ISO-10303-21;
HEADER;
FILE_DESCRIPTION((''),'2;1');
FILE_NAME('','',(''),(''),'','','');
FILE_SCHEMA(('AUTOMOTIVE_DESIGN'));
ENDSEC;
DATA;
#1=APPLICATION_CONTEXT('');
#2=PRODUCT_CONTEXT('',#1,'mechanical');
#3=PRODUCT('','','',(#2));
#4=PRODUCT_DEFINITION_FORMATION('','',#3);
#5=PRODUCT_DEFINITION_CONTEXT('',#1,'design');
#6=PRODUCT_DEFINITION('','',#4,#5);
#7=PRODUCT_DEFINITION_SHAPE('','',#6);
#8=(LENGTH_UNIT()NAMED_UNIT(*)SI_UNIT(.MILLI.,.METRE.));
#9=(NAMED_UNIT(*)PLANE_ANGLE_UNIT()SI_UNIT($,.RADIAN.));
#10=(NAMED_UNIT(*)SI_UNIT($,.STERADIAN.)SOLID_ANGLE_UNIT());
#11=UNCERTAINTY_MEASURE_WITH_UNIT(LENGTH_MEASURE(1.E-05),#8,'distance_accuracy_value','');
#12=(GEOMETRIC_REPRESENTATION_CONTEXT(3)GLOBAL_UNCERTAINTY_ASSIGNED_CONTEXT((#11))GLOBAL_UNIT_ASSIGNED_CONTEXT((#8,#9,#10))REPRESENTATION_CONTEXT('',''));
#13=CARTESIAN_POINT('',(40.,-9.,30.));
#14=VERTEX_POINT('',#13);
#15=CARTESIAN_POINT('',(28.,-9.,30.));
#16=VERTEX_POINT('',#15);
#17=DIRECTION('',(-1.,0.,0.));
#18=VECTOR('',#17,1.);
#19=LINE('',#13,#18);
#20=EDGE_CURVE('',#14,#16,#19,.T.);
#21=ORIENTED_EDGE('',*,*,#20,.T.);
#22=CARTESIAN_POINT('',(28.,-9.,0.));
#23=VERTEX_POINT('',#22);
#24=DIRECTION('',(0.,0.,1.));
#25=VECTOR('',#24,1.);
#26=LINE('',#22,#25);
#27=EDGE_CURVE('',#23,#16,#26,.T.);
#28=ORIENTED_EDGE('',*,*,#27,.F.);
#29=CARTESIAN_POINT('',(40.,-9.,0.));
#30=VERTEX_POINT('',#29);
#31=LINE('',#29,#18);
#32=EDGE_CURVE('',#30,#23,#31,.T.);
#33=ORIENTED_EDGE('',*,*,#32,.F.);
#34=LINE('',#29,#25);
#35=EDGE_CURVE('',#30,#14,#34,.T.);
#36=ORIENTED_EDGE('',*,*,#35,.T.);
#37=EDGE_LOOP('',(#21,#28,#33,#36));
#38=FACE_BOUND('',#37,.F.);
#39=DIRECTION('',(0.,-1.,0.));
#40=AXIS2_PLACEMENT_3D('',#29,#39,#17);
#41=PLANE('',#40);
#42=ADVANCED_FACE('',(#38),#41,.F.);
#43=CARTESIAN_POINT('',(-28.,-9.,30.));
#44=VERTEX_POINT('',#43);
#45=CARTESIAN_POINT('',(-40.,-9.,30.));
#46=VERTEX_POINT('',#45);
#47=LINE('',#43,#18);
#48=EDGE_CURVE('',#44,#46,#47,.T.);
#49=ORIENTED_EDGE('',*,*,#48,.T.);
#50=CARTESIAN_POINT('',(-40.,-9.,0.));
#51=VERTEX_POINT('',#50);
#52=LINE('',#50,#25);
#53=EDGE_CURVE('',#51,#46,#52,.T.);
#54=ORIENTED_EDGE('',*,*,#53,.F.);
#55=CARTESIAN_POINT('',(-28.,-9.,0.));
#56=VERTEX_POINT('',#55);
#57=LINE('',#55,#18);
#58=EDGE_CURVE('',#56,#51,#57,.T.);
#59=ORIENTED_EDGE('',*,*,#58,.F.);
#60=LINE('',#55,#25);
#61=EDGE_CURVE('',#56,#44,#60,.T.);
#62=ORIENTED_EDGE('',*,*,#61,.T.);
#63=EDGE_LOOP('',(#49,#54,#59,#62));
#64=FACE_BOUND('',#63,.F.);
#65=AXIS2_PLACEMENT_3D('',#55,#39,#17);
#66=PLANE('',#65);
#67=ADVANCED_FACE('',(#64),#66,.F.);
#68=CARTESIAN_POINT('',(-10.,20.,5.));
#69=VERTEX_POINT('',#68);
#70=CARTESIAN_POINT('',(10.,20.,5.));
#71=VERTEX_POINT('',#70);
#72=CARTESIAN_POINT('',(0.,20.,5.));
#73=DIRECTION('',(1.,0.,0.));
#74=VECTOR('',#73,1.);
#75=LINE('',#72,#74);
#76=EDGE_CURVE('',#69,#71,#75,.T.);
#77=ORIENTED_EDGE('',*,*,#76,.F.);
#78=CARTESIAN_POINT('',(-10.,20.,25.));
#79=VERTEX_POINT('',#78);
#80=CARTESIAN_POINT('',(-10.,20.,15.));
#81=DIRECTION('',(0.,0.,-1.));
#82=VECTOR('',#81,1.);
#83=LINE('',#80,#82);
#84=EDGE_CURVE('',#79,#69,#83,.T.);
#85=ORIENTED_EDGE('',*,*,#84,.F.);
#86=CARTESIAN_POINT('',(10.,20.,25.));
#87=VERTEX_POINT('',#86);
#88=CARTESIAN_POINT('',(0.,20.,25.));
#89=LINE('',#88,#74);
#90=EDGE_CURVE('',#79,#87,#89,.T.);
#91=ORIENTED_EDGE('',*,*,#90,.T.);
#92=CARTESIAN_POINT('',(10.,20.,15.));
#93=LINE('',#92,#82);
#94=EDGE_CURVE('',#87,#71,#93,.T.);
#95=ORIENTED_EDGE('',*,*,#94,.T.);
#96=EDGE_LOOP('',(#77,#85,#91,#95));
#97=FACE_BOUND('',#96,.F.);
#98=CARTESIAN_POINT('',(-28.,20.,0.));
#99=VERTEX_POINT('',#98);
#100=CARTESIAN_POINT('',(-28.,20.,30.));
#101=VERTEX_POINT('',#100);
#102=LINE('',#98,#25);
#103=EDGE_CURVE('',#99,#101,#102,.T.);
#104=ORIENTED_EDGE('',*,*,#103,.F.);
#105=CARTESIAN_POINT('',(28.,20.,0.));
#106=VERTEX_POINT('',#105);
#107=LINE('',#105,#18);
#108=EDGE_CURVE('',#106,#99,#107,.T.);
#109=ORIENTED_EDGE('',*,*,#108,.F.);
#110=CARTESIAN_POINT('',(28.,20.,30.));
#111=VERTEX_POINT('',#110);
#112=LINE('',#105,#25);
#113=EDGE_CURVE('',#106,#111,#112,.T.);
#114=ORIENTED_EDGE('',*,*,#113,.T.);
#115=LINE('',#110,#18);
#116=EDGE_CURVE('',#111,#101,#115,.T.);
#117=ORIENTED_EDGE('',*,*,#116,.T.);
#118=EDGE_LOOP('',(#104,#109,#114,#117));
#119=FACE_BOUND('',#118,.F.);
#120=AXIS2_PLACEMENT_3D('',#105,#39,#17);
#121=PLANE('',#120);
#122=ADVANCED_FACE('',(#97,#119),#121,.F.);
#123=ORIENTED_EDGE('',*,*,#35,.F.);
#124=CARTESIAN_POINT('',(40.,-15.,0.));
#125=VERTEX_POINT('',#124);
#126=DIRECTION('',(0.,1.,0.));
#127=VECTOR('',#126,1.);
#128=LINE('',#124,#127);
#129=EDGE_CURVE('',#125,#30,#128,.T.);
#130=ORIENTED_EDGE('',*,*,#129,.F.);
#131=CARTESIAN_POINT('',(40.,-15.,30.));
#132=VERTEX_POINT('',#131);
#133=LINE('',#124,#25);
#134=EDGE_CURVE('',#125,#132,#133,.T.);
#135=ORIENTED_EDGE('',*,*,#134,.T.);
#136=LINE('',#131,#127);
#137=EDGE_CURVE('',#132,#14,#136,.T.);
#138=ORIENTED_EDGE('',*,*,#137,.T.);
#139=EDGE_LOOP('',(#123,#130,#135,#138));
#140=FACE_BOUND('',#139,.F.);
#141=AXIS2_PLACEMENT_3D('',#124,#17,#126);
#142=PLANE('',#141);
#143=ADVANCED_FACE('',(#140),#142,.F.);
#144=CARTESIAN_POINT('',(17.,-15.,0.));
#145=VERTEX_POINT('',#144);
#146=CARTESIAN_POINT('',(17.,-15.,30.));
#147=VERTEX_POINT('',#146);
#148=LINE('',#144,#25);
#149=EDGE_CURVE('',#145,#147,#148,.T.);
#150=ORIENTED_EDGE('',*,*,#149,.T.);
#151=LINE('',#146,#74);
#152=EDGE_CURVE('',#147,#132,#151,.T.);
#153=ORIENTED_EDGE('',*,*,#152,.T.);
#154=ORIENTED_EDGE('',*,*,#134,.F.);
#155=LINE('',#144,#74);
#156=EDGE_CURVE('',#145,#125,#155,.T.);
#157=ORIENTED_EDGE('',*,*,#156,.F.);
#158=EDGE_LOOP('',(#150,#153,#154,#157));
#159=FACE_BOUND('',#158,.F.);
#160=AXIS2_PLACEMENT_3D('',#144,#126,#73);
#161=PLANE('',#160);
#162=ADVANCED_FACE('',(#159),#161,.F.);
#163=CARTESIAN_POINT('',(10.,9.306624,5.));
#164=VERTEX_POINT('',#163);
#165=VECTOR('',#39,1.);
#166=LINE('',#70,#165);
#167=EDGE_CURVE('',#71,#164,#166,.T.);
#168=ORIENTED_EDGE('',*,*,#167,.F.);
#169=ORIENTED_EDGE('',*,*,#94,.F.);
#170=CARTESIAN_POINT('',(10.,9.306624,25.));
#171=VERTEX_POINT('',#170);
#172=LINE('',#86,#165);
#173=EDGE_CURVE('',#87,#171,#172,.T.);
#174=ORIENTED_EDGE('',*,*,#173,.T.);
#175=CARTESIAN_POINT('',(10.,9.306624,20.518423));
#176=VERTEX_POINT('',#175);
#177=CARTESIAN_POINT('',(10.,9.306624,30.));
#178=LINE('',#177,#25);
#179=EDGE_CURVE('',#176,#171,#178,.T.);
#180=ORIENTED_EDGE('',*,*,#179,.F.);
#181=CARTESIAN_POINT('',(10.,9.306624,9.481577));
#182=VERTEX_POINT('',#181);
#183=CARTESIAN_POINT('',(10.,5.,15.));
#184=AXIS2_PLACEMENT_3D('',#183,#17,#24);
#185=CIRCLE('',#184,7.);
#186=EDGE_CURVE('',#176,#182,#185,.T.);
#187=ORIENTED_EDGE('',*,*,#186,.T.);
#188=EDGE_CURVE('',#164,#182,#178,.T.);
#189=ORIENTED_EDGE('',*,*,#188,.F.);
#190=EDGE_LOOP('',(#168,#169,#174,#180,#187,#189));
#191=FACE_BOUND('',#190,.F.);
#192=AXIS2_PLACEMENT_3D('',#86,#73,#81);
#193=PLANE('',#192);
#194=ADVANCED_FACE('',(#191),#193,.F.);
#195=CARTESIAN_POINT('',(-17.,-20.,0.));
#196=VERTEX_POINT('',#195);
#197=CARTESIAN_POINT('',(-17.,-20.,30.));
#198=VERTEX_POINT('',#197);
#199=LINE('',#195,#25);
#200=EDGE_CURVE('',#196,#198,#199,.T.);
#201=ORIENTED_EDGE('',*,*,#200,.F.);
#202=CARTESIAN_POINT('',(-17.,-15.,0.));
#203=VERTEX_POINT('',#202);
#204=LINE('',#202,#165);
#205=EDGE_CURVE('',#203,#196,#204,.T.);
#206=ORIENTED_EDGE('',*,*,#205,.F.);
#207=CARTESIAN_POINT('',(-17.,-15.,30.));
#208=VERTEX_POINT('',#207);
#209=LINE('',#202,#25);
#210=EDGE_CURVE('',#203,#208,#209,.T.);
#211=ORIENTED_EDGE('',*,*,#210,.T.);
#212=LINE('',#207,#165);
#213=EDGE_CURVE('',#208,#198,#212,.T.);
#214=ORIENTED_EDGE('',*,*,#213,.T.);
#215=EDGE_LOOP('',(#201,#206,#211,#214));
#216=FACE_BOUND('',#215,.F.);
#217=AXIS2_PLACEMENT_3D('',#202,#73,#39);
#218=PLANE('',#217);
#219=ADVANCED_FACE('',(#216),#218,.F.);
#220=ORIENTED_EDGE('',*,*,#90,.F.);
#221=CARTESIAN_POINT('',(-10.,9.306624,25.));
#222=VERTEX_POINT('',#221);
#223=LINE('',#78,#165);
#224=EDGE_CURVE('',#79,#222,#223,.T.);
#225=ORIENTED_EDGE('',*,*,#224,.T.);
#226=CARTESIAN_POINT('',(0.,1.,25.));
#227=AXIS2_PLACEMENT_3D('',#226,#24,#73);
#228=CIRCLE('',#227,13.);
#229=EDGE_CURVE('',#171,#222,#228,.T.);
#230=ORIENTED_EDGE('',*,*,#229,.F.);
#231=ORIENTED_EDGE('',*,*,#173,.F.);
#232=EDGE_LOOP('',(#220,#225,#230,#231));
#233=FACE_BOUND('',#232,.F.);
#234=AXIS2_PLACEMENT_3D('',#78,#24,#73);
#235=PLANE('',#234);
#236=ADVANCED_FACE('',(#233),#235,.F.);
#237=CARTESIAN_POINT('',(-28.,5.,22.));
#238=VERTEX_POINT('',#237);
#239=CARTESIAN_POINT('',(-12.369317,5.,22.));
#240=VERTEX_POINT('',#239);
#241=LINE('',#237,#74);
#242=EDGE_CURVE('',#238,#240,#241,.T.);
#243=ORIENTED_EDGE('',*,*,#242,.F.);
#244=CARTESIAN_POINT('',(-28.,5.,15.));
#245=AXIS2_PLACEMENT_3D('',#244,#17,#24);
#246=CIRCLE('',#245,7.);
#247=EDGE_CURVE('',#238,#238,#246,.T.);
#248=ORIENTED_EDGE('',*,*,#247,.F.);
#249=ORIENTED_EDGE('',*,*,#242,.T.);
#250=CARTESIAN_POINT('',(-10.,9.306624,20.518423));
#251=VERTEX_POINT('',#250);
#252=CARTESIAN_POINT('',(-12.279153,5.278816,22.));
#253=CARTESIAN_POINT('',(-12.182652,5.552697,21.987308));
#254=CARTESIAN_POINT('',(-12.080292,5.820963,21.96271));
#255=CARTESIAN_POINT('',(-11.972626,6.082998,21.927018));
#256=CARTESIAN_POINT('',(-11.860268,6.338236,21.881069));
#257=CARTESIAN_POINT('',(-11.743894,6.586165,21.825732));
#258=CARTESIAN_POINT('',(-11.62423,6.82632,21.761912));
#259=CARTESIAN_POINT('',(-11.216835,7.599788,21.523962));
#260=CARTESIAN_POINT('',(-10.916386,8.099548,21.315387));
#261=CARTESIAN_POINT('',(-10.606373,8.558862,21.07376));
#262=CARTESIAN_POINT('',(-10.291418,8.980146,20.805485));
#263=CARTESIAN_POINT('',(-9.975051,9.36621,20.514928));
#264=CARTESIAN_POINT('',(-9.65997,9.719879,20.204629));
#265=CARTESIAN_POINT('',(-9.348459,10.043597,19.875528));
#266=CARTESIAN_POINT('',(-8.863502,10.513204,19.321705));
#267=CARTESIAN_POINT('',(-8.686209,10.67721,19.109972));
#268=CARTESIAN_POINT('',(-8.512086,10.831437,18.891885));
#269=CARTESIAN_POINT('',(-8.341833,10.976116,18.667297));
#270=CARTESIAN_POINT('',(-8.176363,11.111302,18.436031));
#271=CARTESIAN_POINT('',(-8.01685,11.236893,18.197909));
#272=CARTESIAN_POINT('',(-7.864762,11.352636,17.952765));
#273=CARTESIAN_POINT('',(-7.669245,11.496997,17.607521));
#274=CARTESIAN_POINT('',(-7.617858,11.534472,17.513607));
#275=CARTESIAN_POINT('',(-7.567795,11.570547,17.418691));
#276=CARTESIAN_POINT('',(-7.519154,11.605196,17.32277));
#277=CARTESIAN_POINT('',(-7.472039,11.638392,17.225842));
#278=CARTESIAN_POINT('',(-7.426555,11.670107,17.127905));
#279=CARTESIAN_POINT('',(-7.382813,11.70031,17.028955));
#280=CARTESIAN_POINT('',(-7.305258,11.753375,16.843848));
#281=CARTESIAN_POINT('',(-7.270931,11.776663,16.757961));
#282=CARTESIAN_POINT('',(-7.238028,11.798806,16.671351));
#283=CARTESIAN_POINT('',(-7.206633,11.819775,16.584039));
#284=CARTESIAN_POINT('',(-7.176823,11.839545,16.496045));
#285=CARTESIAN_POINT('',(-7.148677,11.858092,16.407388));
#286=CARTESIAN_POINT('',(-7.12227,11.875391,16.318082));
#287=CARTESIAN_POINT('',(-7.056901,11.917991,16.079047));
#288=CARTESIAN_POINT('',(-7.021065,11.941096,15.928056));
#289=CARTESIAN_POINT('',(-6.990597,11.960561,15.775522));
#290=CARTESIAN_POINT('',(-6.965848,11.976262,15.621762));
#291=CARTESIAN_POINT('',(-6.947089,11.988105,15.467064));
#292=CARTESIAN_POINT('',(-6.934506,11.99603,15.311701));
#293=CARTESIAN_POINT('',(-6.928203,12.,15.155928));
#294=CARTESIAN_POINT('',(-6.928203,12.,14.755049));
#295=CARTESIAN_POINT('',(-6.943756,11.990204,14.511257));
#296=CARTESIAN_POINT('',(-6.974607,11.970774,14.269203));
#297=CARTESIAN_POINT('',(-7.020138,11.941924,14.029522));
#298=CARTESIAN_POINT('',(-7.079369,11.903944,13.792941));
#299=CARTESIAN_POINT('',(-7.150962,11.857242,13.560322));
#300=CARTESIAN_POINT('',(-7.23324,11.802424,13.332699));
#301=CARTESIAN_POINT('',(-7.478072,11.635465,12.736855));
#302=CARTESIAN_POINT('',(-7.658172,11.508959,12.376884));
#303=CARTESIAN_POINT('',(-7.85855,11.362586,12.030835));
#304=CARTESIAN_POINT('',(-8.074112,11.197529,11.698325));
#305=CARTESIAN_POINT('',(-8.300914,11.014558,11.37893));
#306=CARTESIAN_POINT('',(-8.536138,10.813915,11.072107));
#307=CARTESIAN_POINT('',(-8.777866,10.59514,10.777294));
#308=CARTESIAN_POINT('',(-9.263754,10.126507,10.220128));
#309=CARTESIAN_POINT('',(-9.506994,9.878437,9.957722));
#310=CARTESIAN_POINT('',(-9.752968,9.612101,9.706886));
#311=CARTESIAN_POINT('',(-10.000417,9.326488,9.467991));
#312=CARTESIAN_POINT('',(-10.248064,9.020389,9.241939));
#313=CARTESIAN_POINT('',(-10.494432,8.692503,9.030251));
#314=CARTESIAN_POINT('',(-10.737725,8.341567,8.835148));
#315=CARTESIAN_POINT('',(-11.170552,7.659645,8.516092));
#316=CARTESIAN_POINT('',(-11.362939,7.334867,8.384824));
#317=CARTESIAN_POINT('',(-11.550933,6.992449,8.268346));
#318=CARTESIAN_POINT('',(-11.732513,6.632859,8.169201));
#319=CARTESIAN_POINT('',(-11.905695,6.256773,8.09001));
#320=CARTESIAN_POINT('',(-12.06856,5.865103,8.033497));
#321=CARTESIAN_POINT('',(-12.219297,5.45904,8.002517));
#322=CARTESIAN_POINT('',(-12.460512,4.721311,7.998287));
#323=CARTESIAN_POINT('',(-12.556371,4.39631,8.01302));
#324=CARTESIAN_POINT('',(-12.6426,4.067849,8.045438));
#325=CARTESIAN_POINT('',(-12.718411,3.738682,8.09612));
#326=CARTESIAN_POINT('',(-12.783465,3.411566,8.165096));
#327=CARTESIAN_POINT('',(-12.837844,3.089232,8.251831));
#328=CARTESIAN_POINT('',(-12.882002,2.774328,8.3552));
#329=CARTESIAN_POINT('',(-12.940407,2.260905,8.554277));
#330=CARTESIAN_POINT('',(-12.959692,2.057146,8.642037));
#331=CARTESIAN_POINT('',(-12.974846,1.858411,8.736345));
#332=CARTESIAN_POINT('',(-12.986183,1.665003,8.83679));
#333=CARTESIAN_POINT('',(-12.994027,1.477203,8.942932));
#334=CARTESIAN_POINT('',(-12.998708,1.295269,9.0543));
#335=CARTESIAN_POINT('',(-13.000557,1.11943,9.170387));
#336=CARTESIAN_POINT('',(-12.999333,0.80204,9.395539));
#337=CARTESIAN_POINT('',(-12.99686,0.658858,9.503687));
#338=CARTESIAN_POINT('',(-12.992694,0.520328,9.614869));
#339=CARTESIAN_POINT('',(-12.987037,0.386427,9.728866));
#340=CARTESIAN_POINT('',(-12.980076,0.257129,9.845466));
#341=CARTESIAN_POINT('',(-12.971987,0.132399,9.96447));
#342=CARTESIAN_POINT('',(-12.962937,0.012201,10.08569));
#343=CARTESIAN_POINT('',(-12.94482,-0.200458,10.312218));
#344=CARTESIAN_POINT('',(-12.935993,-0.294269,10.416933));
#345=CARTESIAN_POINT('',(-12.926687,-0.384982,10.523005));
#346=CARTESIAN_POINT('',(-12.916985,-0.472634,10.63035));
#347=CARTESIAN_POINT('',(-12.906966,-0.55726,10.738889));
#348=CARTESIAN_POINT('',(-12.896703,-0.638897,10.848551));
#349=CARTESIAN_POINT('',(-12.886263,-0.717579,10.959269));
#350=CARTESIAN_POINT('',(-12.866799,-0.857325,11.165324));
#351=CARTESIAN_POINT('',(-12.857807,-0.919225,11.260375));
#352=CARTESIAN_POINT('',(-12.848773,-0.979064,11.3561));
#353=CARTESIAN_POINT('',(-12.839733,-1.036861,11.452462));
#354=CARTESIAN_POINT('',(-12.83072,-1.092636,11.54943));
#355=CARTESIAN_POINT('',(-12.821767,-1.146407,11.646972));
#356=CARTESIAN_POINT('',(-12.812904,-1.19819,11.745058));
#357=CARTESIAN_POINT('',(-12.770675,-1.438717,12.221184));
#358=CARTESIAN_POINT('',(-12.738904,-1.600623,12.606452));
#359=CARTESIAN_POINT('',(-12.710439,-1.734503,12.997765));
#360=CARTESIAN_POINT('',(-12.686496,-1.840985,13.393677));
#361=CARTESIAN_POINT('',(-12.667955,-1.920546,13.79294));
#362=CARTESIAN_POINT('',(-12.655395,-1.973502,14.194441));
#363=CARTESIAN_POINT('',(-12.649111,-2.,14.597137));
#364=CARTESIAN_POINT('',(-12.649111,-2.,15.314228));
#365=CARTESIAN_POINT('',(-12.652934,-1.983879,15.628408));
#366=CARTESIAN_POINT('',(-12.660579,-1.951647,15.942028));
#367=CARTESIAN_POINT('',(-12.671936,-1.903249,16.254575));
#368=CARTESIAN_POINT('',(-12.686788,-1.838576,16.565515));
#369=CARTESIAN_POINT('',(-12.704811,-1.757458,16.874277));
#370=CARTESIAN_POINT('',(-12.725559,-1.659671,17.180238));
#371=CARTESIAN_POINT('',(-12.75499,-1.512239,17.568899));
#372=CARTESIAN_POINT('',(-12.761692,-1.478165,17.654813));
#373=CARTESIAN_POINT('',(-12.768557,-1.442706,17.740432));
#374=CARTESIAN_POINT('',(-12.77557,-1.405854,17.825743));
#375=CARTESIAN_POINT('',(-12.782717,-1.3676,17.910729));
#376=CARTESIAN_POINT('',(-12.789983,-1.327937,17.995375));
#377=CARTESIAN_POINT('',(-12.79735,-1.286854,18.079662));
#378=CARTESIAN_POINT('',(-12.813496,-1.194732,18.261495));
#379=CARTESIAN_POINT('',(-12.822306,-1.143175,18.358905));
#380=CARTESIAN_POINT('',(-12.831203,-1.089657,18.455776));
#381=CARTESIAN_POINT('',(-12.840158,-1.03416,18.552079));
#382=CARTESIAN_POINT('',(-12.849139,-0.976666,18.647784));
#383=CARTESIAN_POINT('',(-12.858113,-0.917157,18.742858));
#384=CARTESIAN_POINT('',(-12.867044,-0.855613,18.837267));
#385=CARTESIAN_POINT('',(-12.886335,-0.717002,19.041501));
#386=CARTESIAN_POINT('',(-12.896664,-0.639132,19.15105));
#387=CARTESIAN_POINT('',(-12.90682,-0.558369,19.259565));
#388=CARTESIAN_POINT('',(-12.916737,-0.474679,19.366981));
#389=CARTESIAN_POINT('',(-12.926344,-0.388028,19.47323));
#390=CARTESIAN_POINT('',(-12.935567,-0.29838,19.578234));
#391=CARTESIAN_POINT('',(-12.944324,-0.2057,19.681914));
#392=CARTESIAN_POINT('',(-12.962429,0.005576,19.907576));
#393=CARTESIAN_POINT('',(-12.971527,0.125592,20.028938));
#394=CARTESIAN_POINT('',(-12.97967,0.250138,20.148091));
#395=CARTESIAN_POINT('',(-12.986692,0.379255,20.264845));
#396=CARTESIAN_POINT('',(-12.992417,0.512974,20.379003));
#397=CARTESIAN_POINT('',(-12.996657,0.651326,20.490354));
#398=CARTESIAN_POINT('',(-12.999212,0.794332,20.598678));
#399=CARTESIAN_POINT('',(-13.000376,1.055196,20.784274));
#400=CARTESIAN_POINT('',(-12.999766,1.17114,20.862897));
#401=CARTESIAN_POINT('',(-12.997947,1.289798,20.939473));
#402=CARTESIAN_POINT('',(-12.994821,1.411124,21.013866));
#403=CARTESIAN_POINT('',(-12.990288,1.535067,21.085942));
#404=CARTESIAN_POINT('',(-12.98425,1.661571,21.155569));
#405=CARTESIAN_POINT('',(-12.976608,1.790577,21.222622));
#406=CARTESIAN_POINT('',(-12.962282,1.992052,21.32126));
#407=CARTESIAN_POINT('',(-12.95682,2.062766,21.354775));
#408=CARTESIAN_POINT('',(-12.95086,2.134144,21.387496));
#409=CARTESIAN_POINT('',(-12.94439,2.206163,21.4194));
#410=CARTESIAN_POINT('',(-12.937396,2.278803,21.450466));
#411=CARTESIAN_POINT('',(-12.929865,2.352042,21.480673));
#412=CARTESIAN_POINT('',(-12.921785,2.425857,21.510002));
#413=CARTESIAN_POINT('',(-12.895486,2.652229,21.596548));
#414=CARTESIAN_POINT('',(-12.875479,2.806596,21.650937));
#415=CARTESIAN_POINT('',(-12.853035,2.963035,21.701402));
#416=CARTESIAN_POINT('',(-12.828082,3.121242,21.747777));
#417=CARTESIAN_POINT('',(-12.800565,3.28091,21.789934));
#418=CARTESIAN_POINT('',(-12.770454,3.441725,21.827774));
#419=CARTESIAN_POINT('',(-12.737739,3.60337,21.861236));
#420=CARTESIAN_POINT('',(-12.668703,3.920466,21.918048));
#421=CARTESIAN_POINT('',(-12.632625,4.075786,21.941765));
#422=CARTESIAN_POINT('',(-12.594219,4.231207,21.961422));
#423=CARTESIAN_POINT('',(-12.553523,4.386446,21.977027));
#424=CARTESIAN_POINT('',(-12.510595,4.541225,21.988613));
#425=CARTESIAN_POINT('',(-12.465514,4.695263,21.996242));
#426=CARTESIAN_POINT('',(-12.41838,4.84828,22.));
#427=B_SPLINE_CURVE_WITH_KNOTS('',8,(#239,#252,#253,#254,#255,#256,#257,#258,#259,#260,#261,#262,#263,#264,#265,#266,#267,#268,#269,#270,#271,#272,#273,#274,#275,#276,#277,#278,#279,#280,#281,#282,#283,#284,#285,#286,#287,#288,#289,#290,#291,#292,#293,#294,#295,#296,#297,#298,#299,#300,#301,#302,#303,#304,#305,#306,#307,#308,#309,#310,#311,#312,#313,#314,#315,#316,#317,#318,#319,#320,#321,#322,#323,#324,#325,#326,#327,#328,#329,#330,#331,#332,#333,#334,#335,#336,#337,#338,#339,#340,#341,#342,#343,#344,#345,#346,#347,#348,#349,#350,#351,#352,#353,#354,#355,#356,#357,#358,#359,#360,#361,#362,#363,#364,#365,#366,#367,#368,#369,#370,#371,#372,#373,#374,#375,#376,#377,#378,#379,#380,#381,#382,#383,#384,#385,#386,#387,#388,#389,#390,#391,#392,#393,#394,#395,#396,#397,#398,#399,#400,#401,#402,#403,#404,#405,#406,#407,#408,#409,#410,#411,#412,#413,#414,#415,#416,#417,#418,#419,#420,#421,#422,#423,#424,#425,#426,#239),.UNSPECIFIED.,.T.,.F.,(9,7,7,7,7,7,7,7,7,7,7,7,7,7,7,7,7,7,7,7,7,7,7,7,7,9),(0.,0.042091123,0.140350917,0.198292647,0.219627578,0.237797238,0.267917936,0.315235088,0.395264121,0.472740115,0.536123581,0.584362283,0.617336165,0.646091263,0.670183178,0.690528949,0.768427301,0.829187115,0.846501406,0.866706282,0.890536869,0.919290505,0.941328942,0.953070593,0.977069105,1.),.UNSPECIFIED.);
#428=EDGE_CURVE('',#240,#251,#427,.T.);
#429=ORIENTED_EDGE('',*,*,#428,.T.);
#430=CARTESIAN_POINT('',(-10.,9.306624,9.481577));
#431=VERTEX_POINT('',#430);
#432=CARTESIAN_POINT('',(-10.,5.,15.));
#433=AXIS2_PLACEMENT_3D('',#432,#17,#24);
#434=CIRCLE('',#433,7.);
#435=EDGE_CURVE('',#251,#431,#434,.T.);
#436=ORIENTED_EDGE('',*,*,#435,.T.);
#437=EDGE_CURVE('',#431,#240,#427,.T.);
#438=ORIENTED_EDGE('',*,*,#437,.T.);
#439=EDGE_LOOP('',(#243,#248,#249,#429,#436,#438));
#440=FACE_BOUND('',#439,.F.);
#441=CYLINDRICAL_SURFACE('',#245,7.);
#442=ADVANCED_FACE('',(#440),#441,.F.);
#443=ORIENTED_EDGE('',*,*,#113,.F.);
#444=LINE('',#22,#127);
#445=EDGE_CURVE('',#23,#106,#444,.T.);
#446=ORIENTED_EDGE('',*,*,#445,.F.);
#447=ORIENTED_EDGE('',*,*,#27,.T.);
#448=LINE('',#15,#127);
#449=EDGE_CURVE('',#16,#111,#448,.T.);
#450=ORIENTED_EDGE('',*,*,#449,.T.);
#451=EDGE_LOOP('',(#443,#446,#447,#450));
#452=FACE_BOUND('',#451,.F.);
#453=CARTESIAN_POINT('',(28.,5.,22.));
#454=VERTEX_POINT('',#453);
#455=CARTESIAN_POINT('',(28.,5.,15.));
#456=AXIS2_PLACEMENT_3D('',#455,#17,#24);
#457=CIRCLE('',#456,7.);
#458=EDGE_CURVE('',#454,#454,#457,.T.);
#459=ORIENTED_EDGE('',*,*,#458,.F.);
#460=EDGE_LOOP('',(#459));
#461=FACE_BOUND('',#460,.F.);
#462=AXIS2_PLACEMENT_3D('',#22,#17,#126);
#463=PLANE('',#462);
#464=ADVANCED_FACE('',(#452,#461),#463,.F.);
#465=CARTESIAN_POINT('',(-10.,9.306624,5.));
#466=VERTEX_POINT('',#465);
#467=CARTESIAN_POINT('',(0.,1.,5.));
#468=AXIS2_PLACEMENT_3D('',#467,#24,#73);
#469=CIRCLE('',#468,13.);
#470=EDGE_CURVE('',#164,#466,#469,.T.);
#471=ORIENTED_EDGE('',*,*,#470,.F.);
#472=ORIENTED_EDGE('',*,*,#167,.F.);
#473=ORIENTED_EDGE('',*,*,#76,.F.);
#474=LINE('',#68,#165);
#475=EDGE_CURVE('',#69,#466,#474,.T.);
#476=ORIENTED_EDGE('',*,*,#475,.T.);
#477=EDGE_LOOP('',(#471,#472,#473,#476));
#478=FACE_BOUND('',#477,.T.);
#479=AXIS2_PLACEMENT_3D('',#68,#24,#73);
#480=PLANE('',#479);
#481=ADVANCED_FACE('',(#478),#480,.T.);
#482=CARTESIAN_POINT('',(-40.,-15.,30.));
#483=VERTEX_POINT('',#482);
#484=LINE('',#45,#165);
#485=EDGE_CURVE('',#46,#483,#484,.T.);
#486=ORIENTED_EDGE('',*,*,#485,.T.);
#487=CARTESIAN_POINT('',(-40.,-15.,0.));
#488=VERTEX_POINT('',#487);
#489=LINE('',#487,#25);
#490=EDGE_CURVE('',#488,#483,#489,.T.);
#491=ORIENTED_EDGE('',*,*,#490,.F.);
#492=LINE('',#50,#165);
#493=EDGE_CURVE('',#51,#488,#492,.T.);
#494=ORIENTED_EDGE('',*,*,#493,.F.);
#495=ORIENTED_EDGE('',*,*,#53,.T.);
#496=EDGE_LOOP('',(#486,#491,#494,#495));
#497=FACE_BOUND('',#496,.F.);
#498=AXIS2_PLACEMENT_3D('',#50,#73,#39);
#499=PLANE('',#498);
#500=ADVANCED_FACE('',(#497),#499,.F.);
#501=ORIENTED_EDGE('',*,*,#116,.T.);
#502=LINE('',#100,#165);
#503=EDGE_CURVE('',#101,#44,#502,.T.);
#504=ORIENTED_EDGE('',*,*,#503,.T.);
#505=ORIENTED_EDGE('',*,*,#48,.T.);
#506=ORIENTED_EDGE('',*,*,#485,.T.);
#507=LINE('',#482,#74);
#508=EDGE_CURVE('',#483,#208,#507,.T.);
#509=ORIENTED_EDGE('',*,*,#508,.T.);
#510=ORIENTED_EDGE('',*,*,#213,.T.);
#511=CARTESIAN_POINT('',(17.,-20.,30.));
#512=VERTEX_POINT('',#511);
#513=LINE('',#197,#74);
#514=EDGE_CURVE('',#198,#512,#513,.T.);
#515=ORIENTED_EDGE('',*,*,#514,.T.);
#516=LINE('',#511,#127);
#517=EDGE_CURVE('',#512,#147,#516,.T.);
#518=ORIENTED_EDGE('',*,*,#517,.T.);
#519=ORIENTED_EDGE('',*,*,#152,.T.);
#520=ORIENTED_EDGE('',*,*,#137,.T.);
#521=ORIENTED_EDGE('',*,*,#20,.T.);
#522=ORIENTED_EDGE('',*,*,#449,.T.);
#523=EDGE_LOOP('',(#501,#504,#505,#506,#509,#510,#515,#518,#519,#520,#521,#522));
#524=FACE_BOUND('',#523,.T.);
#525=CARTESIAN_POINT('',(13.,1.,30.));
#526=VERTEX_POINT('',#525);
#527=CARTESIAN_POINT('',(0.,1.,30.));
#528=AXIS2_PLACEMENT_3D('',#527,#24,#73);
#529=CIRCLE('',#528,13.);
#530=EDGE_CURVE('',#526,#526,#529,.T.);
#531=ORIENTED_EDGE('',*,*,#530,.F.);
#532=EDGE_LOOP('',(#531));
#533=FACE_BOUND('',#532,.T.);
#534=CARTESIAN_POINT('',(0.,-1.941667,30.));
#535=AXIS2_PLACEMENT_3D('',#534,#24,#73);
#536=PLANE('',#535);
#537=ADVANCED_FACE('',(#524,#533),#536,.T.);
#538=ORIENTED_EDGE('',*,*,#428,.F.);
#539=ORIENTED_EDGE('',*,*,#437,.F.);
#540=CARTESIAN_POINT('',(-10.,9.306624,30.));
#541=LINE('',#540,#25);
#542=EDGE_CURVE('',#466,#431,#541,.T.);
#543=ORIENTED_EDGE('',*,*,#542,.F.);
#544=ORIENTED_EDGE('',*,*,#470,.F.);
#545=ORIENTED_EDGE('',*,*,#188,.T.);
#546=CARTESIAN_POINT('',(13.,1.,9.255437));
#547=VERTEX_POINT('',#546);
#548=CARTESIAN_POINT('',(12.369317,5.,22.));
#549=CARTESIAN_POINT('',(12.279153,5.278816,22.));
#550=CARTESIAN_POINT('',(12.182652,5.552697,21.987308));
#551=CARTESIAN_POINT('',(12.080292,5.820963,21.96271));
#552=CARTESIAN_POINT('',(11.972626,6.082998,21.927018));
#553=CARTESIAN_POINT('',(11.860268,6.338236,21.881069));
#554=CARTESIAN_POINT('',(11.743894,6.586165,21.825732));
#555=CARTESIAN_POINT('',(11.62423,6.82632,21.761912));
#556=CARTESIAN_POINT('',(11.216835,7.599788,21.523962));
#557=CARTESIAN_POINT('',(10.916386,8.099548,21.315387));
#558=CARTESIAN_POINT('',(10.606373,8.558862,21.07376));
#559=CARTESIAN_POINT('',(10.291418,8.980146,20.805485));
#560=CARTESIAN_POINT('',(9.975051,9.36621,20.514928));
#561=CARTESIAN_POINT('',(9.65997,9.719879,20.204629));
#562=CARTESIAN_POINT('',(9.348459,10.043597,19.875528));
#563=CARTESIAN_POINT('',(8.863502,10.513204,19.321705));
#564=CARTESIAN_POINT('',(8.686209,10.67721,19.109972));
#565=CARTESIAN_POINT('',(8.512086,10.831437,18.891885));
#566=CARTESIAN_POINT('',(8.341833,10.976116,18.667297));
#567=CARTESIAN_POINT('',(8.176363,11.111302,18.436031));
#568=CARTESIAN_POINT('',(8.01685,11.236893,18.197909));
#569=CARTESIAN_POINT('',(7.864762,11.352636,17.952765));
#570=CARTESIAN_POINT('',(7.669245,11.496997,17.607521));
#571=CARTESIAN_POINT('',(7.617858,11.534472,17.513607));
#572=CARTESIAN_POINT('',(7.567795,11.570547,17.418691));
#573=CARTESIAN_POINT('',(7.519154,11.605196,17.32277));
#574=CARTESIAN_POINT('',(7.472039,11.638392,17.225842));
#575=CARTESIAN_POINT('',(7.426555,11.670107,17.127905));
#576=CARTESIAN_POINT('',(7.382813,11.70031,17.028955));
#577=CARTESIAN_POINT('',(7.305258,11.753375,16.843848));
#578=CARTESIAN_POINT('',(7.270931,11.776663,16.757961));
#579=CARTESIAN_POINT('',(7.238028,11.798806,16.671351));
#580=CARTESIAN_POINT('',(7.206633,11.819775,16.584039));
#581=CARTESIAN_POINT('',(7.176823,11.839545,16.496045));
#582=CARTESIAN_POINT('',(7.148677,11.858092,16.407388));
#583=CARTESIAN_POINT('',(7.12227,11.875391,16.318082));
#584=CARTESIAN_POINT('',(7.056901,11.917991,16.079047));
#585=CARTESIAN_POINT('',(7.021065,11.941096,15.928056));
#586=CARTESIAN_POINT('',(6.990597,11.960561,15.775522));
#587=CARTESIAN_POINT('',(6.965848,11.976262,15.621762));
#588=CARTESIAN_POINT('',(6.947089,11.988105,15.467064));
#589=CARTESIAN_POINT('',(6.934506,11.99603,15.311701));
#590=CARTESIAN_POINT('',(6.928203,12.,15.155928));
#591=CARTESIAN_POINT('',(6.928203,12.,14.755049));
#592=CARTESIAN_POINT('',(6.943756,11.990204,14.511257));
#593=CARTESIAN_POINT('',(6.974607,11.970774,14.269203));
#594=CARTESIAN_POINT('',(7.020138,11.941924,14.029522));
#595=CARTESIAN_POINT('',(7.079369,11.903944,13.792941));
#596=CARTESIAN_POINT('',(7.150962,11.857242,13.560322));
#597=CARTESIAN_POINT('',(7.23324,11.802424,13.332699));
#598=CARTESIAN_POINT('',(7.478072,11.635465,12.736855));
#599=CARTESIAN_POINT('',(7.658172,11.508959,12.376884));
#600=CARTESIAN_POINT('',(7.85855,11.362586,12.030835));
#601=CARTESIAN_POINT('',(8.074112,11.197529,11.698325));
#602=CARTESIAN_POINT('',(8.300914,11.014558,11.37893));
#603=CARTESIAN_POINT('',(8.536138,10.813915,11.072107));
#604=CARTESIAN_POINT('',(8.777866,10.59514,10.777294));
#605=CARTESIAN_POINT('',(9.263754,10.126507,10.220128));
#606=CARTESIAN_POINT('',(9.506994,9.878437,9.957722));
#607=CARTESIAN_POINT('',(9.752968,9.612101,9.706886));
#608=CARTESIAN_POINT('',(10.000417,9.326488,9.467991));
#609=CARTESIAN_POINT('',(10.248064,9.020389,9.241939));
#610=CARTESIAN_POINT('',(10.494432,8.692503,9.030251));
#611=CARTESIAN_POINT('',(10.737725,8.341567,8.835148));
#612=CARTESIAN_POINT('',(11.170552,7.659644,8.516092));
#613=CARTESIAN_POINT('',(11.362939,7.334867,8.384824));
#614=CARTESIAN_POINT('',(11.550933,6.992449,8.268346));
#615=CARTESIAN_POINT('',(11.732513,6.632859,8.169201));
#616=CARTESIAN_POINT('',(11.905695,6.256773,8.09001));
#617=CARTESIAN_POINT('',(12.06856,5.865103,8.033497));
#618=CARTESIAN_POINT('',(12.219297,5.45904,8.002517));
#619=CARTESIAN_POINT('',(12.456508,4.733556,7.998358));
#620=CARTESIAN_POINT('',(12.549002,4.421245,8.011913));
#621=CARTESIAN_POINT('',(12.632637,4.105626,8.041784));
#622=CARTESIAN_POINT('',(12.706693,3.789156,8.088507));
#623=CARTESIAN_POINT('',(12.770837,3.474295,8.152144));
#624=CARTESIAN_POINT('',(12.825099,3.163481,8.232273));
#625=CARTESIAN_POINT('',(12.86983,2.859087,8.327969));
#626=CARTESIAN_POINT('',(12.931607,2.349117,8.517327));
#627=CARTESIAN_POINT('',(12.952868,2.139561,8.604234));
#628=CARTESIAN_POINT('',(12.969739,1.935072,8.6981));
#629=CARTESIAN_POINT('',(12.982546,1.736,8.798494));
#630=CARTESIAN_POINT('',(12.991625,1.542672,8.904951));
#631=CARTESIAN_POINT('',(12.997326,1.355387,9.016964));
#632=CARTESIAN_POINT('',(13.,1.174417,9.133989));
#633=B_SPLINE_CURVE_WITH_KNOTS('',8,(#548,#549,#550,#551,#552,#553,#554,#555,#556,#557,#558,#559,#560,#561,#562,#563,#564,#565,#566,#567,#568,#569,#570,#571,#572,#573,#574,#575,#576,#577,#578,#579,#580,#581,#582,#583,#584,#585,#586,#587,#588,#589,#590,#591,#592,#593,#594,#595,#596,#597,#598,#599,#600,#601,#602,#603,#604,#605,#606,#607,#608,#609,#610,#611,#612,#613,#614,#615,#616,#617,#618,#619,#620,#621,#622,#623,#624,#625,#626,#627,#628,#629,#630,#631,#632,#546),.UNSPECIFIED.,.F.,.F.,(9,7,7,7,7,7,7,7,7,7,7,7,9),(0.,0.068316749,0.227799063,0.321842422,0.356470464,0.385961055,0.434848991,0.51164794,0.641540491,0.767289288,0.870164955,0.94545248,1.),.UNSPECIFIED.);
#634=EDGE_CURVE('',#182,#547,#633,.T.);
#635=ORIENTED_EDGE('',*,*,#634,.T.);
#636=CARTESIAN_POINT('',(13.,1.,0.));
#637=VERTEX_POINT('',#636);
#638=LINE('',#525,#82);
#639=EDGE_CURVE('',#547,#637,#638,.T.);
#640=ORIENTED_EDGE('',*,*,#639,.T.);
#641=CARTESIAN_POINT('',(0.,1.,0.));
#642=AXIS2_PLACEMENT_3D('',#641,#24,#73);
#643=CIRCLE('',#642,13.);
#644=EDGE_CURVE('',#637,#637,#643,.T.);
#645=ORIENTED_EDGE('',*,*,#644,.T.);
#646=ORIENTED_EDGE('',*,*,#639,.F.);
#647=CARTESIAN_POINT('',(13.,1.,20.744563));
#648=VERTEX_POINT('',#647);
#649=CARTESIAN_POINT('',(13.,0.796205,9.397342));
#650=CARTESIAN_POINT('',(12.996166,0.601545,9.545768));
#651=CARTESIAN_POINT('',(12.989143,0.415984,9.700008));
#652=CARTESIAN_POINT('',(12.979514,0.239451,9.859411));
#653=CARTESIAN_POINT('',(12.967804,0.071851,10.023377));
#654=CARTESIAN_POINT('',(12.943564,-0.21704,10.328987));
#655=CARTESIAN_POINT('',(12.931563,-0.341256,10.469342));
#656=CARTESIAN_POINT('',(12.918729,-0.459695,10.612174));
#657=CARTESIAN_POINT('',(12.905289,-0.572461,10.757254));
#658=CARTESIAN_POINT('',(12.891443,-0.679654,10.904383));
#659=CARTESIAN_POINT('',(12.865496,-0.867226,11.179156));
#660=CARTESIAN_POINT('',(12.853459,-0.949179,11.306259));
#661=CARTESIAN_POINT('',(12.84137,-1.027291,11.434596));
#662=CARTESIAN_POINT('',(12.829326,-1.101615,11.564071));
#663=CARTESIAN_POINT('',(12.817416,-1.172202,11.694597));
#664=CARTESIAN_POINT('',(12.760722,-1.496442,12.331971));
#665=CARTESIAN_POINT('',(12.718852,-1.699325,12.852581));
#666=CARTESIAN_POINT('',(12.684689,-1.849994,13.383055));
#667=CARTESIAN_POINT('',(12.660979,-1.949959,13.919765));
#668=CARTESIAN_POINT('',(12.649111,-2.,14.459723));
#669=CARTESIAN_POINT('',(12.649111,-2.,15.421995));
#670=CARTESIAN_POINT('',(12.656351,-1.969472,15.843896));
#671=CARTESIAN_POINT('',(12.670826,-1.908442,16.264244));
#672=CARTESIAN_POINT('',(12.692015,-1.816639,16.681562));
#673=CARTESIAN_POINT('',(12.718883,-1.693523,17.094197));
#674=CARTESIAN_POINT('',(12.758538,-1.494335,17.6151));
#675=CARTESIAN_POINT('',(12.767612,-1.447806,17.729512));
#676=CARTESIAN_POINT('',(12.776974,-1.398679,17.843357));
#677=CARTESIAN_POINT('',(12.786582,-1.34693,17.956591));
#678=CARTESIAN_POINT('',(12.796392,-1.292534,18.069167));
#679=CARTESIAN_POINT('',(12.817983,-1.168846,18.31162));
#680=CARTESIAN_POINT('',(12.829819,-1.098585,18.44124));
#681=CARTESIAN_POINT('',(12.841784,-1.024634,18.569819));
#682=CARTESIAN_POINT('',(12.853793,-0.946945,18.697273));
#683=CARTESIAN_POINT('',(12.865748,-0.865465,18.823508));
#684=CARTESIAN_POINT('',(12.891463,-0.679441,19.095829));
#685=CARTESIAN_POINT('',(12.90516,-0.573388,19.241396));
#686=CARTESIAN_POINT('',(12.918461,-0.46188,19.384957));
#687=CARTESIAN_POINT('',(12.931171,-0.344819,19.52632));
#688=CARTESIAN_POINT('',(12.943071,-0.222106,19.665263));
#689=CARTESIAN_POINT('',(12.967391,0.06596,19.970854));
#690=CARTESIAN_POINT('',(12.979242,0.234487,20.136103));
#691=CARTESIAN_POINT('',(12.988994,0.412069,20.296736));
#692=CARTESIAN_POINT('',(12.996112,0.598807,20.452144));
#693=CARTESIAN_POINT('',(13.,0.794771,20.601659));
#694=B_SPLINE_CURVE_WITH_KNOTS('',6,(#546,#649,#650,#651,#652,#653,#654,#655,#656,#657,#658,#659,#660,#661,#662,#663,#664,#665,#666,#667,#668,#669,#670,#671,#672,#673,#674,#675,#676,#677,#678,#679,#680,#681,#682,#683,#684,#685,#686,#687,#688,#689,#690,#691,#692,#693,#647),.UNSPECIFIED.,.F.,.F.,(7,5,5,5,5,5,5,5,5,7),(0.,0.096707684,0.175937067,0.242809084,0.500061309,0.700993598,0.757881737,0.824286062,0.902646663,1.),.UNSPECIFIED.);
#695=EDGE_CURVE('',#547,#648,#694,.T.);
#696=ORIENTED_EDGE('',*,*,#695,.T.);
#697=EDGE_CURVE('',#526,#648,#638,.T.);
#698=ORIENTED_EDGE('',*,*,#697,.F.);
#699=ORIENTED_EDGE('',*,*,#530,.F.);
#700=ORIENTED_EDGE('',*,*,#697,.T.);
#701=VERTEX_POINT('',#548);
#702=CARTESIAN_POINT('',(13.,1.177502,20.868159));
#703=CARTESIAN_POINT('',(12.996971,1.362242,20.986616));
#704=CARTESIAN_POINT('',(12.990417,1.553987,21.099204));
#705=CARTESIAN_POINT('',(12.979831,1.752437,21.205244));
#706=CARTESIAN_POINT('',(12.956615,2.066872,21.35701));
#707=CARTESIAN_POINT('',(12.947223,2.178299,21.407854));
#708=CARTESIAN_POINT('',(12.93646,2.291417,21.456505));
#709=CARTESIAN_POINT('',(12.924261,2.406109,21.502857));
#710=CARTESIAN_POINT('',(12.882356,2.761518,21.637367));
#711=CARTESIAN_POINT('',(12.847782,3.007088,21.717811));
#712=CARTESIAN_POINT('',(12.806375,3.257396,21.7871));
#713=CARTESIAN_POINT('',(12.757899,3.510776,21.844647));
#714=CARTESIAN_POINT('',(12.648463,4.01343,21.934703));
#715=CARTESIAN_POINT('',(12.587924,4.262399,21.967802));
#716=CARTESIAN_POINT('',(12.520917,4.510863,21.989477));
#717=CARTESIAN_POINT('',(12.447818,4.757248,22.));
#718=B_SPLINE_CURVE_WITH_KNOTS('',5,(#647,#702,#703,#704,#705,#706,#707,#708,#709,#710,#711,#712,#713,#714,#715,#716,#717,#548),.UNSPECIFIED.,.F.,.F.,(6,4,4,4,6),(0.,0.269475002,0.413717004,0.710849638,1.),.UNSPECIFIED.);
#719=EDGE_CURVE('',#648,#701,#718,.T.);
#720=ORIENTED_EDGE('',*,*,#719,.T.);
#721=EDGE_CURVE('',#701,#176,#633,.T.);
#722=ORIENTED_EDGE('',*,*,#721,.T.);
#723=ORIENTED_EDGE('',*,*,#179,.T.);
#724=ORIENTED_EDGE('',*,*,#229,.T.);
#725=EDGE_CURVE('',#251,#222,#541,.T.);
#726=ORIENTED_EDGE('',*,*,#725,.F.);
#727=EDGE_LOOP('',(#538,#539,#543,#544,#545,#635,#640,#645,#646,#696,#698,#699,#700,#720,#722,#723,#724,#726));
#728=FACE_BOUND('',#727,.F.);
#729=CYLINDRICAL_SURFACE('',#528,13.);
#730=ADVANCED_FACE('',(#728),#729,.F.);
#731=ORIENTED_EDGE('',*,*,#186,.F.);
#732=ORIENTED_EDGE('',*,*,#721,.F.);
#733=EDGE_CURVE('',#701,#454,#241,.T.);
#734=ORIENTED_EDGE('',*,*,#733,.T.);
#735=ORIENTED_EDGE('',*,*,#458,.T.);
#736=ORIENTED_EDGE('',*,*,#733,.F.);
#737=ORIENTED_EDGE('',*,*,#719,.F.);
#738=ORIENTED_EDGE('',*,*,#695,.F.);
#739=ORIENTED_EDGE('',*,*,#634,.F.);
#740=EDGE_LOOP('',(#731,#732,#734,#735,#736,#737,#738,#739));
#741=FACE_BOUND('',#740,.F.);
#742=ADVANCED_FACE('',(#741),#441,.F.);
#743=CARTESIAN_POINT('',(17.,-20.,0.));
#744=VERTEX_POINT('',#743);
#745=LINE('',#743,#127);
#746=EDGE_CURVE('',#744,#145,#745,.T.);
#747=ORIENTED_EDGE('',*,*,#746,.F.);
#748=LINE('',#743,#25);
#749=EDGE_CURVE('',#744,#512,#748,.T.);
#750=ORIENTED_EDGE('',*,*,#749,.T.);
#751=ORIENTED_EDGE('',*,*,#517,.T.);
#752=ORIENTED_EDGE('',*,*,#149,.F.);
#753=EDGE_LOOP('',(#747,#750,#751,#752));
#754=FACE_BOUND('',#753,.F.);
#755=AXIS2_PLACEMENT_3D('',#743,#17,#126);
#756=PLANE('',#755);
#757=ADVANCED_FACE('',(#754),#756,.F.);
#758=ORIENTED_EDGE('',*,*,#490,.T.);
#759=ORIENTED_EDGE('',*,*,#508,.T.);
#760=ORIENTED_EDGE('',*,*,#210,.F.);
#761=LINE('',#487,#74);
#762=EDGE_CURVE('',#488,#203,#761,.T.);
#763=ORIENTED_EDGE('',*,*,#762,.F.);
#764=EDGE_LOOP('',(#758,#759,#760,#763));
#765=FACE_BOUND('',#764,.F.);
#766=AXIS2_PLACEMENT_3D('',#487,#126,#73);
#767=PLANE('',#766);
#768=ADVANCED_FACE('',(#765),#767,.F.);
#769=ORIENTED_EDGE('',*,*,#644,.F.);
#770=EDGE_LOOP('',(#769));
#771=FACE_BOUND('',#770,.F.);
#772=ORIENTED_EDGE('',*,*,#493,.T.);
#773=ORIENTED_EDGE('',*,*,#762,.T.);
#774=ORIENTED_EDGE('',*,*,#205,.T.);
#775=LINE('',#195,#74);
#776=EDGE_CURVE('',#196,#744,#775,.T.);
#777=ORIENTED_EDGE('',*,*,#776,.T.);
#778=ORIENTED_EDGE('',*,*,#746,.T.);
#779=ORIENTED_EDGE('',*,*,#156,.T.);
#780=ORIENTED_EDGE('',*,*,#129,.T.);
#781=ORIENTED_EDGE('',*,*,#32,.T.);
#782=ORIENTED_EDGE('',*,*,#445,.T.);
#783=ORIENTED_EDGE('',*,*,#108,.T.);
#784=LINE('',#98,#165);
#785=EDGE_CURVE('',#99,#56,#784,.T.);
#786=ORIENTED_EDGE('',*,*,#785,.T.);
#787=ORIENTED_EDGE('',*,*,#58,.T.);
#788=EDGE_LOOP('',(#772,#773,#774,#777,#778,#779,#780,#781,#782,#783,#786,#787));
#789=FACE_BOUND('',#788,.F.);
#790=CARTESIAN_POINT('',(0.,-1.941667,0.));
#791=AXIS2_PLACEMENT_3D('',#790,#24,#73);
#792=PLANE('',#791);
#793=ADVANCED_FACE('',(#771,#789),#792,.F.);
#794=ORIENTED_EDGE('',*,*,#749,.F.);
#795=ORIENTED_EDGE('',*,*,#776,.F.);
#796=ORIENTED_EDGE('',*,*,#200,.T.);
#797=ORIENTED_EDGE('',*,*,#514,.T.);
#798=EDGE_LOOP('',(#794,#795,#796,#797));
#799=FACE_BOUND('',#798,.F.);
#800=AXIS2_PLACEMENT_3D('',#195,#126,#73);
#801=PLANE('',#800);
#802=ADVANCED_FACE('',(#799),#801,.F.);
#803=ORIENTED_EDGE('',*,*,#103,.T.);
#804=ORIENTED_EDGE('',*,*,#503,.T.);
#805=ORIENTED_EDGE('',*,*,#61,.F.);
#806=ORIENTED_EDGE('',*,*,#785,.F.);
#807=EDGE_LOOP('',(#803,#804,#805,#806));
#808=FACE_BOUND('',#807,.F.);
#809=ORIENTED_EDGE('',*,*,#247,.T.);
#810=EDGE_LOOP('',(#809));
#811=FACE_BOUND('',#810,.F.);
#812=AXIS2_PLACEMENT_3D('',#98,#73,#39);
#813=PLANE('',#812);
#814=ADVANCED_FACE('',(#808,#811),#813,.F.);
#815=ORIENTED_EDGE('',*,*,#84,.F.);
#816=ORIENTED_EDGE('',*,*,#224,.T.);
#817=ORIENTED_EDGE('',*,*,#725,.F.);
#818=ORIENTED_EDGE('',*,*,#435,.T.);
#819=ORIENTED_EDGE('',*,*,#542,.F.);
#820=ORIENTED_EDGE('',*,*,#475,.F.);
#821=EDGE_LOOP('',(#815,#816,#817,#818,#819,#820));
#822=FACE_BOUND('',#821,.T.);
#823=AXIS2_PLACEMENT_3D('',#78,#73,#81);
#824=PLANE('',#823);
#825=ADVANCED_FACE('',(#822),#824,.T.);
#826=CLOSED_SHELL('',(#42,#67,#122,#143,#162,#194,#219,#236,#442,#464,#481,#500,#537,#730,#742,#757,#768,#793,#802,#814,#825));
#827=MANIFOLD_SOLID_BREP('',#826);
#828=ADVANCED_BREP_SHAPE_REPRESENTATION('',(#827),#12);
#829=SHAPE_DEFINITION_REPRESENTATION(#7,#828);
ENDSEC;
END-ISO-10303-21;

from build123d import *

# Parameters (mm, degrees)
EXTRUDE_1_DEPTH     = 30
SKETCH_2_R          = 13
CUT_EXTRUDE_1_DEPTH = 54.851648071
SKETCH_3_R          = 7
CUT_EXTRUDE_2_DEPTH = 77.96752562
CUT_EXTRUDE_3_REACH = 66.031
SKETCH_4_W          = 20
SKETCH_4_H          = 20


with BuildPart() as part:
    # Эскиз1 → Бобышка-Вытянуть1 (new body)
    with BuildSketch(Plane.XY):
        Polygon((-40, -15), (-17, -15), (-17, -20), (17, -20), (17, -15), (40, -15), (40, -9), (28, -9), (28, 20), (-28, 20), (-28, -9), (-40, -9), align=None)
    extrude(amount=EXTRUDE_1_DEPTH)

    # Эскиз2 → Вырез-Вытянуть1 (cut, through all)
    with BuildSketch(Plane.XY.offset(30)):
        with Locations((0, 1)):
            Circle(SKETCH_2_R)
    extrude(amount=-CUT_EXTRUDE_1_DEPTH, mode=Mode.SUBTRACT)

    # Эскиз3 → Вырез-Вытянуть2 (cut, through all)
    with BuildSketch(Plane.ZY.offset(28)):
        with Locations((15, 5)):
            Circle(SKETCH_3_R)
    extrude(amount=-CUT_EXTRUDE_2_DEPTH, mode=Mode.SUBTRACT)

    # Эскиз4 → Вырез-Вытянуть3 (cut, up to next)
    with BuildSketch(Plane(origin=(0, 20, 0), x_dir=(1, 0, 0), z_dir=(0, 1, 0)), mode=Mode.PRIVATE) as cut_extrude_3_sk1:
        with Locations((0, -15)):
            Rectangle(SKETCH_4_W, SKETCH_4_H)
    cut_extrude_3_tool1 = extrude(cut_extrude_3_sk1.sketch, amount=-CUT_EXTRUDE_3_REACH, mode=Mode.PRIVATE) & part.part
    add(cut_extrude_3_tool1.solids().sort_by_distance((0, 20, 15))[0], mode=Mode.SUBTRACT)


solid = part.part
